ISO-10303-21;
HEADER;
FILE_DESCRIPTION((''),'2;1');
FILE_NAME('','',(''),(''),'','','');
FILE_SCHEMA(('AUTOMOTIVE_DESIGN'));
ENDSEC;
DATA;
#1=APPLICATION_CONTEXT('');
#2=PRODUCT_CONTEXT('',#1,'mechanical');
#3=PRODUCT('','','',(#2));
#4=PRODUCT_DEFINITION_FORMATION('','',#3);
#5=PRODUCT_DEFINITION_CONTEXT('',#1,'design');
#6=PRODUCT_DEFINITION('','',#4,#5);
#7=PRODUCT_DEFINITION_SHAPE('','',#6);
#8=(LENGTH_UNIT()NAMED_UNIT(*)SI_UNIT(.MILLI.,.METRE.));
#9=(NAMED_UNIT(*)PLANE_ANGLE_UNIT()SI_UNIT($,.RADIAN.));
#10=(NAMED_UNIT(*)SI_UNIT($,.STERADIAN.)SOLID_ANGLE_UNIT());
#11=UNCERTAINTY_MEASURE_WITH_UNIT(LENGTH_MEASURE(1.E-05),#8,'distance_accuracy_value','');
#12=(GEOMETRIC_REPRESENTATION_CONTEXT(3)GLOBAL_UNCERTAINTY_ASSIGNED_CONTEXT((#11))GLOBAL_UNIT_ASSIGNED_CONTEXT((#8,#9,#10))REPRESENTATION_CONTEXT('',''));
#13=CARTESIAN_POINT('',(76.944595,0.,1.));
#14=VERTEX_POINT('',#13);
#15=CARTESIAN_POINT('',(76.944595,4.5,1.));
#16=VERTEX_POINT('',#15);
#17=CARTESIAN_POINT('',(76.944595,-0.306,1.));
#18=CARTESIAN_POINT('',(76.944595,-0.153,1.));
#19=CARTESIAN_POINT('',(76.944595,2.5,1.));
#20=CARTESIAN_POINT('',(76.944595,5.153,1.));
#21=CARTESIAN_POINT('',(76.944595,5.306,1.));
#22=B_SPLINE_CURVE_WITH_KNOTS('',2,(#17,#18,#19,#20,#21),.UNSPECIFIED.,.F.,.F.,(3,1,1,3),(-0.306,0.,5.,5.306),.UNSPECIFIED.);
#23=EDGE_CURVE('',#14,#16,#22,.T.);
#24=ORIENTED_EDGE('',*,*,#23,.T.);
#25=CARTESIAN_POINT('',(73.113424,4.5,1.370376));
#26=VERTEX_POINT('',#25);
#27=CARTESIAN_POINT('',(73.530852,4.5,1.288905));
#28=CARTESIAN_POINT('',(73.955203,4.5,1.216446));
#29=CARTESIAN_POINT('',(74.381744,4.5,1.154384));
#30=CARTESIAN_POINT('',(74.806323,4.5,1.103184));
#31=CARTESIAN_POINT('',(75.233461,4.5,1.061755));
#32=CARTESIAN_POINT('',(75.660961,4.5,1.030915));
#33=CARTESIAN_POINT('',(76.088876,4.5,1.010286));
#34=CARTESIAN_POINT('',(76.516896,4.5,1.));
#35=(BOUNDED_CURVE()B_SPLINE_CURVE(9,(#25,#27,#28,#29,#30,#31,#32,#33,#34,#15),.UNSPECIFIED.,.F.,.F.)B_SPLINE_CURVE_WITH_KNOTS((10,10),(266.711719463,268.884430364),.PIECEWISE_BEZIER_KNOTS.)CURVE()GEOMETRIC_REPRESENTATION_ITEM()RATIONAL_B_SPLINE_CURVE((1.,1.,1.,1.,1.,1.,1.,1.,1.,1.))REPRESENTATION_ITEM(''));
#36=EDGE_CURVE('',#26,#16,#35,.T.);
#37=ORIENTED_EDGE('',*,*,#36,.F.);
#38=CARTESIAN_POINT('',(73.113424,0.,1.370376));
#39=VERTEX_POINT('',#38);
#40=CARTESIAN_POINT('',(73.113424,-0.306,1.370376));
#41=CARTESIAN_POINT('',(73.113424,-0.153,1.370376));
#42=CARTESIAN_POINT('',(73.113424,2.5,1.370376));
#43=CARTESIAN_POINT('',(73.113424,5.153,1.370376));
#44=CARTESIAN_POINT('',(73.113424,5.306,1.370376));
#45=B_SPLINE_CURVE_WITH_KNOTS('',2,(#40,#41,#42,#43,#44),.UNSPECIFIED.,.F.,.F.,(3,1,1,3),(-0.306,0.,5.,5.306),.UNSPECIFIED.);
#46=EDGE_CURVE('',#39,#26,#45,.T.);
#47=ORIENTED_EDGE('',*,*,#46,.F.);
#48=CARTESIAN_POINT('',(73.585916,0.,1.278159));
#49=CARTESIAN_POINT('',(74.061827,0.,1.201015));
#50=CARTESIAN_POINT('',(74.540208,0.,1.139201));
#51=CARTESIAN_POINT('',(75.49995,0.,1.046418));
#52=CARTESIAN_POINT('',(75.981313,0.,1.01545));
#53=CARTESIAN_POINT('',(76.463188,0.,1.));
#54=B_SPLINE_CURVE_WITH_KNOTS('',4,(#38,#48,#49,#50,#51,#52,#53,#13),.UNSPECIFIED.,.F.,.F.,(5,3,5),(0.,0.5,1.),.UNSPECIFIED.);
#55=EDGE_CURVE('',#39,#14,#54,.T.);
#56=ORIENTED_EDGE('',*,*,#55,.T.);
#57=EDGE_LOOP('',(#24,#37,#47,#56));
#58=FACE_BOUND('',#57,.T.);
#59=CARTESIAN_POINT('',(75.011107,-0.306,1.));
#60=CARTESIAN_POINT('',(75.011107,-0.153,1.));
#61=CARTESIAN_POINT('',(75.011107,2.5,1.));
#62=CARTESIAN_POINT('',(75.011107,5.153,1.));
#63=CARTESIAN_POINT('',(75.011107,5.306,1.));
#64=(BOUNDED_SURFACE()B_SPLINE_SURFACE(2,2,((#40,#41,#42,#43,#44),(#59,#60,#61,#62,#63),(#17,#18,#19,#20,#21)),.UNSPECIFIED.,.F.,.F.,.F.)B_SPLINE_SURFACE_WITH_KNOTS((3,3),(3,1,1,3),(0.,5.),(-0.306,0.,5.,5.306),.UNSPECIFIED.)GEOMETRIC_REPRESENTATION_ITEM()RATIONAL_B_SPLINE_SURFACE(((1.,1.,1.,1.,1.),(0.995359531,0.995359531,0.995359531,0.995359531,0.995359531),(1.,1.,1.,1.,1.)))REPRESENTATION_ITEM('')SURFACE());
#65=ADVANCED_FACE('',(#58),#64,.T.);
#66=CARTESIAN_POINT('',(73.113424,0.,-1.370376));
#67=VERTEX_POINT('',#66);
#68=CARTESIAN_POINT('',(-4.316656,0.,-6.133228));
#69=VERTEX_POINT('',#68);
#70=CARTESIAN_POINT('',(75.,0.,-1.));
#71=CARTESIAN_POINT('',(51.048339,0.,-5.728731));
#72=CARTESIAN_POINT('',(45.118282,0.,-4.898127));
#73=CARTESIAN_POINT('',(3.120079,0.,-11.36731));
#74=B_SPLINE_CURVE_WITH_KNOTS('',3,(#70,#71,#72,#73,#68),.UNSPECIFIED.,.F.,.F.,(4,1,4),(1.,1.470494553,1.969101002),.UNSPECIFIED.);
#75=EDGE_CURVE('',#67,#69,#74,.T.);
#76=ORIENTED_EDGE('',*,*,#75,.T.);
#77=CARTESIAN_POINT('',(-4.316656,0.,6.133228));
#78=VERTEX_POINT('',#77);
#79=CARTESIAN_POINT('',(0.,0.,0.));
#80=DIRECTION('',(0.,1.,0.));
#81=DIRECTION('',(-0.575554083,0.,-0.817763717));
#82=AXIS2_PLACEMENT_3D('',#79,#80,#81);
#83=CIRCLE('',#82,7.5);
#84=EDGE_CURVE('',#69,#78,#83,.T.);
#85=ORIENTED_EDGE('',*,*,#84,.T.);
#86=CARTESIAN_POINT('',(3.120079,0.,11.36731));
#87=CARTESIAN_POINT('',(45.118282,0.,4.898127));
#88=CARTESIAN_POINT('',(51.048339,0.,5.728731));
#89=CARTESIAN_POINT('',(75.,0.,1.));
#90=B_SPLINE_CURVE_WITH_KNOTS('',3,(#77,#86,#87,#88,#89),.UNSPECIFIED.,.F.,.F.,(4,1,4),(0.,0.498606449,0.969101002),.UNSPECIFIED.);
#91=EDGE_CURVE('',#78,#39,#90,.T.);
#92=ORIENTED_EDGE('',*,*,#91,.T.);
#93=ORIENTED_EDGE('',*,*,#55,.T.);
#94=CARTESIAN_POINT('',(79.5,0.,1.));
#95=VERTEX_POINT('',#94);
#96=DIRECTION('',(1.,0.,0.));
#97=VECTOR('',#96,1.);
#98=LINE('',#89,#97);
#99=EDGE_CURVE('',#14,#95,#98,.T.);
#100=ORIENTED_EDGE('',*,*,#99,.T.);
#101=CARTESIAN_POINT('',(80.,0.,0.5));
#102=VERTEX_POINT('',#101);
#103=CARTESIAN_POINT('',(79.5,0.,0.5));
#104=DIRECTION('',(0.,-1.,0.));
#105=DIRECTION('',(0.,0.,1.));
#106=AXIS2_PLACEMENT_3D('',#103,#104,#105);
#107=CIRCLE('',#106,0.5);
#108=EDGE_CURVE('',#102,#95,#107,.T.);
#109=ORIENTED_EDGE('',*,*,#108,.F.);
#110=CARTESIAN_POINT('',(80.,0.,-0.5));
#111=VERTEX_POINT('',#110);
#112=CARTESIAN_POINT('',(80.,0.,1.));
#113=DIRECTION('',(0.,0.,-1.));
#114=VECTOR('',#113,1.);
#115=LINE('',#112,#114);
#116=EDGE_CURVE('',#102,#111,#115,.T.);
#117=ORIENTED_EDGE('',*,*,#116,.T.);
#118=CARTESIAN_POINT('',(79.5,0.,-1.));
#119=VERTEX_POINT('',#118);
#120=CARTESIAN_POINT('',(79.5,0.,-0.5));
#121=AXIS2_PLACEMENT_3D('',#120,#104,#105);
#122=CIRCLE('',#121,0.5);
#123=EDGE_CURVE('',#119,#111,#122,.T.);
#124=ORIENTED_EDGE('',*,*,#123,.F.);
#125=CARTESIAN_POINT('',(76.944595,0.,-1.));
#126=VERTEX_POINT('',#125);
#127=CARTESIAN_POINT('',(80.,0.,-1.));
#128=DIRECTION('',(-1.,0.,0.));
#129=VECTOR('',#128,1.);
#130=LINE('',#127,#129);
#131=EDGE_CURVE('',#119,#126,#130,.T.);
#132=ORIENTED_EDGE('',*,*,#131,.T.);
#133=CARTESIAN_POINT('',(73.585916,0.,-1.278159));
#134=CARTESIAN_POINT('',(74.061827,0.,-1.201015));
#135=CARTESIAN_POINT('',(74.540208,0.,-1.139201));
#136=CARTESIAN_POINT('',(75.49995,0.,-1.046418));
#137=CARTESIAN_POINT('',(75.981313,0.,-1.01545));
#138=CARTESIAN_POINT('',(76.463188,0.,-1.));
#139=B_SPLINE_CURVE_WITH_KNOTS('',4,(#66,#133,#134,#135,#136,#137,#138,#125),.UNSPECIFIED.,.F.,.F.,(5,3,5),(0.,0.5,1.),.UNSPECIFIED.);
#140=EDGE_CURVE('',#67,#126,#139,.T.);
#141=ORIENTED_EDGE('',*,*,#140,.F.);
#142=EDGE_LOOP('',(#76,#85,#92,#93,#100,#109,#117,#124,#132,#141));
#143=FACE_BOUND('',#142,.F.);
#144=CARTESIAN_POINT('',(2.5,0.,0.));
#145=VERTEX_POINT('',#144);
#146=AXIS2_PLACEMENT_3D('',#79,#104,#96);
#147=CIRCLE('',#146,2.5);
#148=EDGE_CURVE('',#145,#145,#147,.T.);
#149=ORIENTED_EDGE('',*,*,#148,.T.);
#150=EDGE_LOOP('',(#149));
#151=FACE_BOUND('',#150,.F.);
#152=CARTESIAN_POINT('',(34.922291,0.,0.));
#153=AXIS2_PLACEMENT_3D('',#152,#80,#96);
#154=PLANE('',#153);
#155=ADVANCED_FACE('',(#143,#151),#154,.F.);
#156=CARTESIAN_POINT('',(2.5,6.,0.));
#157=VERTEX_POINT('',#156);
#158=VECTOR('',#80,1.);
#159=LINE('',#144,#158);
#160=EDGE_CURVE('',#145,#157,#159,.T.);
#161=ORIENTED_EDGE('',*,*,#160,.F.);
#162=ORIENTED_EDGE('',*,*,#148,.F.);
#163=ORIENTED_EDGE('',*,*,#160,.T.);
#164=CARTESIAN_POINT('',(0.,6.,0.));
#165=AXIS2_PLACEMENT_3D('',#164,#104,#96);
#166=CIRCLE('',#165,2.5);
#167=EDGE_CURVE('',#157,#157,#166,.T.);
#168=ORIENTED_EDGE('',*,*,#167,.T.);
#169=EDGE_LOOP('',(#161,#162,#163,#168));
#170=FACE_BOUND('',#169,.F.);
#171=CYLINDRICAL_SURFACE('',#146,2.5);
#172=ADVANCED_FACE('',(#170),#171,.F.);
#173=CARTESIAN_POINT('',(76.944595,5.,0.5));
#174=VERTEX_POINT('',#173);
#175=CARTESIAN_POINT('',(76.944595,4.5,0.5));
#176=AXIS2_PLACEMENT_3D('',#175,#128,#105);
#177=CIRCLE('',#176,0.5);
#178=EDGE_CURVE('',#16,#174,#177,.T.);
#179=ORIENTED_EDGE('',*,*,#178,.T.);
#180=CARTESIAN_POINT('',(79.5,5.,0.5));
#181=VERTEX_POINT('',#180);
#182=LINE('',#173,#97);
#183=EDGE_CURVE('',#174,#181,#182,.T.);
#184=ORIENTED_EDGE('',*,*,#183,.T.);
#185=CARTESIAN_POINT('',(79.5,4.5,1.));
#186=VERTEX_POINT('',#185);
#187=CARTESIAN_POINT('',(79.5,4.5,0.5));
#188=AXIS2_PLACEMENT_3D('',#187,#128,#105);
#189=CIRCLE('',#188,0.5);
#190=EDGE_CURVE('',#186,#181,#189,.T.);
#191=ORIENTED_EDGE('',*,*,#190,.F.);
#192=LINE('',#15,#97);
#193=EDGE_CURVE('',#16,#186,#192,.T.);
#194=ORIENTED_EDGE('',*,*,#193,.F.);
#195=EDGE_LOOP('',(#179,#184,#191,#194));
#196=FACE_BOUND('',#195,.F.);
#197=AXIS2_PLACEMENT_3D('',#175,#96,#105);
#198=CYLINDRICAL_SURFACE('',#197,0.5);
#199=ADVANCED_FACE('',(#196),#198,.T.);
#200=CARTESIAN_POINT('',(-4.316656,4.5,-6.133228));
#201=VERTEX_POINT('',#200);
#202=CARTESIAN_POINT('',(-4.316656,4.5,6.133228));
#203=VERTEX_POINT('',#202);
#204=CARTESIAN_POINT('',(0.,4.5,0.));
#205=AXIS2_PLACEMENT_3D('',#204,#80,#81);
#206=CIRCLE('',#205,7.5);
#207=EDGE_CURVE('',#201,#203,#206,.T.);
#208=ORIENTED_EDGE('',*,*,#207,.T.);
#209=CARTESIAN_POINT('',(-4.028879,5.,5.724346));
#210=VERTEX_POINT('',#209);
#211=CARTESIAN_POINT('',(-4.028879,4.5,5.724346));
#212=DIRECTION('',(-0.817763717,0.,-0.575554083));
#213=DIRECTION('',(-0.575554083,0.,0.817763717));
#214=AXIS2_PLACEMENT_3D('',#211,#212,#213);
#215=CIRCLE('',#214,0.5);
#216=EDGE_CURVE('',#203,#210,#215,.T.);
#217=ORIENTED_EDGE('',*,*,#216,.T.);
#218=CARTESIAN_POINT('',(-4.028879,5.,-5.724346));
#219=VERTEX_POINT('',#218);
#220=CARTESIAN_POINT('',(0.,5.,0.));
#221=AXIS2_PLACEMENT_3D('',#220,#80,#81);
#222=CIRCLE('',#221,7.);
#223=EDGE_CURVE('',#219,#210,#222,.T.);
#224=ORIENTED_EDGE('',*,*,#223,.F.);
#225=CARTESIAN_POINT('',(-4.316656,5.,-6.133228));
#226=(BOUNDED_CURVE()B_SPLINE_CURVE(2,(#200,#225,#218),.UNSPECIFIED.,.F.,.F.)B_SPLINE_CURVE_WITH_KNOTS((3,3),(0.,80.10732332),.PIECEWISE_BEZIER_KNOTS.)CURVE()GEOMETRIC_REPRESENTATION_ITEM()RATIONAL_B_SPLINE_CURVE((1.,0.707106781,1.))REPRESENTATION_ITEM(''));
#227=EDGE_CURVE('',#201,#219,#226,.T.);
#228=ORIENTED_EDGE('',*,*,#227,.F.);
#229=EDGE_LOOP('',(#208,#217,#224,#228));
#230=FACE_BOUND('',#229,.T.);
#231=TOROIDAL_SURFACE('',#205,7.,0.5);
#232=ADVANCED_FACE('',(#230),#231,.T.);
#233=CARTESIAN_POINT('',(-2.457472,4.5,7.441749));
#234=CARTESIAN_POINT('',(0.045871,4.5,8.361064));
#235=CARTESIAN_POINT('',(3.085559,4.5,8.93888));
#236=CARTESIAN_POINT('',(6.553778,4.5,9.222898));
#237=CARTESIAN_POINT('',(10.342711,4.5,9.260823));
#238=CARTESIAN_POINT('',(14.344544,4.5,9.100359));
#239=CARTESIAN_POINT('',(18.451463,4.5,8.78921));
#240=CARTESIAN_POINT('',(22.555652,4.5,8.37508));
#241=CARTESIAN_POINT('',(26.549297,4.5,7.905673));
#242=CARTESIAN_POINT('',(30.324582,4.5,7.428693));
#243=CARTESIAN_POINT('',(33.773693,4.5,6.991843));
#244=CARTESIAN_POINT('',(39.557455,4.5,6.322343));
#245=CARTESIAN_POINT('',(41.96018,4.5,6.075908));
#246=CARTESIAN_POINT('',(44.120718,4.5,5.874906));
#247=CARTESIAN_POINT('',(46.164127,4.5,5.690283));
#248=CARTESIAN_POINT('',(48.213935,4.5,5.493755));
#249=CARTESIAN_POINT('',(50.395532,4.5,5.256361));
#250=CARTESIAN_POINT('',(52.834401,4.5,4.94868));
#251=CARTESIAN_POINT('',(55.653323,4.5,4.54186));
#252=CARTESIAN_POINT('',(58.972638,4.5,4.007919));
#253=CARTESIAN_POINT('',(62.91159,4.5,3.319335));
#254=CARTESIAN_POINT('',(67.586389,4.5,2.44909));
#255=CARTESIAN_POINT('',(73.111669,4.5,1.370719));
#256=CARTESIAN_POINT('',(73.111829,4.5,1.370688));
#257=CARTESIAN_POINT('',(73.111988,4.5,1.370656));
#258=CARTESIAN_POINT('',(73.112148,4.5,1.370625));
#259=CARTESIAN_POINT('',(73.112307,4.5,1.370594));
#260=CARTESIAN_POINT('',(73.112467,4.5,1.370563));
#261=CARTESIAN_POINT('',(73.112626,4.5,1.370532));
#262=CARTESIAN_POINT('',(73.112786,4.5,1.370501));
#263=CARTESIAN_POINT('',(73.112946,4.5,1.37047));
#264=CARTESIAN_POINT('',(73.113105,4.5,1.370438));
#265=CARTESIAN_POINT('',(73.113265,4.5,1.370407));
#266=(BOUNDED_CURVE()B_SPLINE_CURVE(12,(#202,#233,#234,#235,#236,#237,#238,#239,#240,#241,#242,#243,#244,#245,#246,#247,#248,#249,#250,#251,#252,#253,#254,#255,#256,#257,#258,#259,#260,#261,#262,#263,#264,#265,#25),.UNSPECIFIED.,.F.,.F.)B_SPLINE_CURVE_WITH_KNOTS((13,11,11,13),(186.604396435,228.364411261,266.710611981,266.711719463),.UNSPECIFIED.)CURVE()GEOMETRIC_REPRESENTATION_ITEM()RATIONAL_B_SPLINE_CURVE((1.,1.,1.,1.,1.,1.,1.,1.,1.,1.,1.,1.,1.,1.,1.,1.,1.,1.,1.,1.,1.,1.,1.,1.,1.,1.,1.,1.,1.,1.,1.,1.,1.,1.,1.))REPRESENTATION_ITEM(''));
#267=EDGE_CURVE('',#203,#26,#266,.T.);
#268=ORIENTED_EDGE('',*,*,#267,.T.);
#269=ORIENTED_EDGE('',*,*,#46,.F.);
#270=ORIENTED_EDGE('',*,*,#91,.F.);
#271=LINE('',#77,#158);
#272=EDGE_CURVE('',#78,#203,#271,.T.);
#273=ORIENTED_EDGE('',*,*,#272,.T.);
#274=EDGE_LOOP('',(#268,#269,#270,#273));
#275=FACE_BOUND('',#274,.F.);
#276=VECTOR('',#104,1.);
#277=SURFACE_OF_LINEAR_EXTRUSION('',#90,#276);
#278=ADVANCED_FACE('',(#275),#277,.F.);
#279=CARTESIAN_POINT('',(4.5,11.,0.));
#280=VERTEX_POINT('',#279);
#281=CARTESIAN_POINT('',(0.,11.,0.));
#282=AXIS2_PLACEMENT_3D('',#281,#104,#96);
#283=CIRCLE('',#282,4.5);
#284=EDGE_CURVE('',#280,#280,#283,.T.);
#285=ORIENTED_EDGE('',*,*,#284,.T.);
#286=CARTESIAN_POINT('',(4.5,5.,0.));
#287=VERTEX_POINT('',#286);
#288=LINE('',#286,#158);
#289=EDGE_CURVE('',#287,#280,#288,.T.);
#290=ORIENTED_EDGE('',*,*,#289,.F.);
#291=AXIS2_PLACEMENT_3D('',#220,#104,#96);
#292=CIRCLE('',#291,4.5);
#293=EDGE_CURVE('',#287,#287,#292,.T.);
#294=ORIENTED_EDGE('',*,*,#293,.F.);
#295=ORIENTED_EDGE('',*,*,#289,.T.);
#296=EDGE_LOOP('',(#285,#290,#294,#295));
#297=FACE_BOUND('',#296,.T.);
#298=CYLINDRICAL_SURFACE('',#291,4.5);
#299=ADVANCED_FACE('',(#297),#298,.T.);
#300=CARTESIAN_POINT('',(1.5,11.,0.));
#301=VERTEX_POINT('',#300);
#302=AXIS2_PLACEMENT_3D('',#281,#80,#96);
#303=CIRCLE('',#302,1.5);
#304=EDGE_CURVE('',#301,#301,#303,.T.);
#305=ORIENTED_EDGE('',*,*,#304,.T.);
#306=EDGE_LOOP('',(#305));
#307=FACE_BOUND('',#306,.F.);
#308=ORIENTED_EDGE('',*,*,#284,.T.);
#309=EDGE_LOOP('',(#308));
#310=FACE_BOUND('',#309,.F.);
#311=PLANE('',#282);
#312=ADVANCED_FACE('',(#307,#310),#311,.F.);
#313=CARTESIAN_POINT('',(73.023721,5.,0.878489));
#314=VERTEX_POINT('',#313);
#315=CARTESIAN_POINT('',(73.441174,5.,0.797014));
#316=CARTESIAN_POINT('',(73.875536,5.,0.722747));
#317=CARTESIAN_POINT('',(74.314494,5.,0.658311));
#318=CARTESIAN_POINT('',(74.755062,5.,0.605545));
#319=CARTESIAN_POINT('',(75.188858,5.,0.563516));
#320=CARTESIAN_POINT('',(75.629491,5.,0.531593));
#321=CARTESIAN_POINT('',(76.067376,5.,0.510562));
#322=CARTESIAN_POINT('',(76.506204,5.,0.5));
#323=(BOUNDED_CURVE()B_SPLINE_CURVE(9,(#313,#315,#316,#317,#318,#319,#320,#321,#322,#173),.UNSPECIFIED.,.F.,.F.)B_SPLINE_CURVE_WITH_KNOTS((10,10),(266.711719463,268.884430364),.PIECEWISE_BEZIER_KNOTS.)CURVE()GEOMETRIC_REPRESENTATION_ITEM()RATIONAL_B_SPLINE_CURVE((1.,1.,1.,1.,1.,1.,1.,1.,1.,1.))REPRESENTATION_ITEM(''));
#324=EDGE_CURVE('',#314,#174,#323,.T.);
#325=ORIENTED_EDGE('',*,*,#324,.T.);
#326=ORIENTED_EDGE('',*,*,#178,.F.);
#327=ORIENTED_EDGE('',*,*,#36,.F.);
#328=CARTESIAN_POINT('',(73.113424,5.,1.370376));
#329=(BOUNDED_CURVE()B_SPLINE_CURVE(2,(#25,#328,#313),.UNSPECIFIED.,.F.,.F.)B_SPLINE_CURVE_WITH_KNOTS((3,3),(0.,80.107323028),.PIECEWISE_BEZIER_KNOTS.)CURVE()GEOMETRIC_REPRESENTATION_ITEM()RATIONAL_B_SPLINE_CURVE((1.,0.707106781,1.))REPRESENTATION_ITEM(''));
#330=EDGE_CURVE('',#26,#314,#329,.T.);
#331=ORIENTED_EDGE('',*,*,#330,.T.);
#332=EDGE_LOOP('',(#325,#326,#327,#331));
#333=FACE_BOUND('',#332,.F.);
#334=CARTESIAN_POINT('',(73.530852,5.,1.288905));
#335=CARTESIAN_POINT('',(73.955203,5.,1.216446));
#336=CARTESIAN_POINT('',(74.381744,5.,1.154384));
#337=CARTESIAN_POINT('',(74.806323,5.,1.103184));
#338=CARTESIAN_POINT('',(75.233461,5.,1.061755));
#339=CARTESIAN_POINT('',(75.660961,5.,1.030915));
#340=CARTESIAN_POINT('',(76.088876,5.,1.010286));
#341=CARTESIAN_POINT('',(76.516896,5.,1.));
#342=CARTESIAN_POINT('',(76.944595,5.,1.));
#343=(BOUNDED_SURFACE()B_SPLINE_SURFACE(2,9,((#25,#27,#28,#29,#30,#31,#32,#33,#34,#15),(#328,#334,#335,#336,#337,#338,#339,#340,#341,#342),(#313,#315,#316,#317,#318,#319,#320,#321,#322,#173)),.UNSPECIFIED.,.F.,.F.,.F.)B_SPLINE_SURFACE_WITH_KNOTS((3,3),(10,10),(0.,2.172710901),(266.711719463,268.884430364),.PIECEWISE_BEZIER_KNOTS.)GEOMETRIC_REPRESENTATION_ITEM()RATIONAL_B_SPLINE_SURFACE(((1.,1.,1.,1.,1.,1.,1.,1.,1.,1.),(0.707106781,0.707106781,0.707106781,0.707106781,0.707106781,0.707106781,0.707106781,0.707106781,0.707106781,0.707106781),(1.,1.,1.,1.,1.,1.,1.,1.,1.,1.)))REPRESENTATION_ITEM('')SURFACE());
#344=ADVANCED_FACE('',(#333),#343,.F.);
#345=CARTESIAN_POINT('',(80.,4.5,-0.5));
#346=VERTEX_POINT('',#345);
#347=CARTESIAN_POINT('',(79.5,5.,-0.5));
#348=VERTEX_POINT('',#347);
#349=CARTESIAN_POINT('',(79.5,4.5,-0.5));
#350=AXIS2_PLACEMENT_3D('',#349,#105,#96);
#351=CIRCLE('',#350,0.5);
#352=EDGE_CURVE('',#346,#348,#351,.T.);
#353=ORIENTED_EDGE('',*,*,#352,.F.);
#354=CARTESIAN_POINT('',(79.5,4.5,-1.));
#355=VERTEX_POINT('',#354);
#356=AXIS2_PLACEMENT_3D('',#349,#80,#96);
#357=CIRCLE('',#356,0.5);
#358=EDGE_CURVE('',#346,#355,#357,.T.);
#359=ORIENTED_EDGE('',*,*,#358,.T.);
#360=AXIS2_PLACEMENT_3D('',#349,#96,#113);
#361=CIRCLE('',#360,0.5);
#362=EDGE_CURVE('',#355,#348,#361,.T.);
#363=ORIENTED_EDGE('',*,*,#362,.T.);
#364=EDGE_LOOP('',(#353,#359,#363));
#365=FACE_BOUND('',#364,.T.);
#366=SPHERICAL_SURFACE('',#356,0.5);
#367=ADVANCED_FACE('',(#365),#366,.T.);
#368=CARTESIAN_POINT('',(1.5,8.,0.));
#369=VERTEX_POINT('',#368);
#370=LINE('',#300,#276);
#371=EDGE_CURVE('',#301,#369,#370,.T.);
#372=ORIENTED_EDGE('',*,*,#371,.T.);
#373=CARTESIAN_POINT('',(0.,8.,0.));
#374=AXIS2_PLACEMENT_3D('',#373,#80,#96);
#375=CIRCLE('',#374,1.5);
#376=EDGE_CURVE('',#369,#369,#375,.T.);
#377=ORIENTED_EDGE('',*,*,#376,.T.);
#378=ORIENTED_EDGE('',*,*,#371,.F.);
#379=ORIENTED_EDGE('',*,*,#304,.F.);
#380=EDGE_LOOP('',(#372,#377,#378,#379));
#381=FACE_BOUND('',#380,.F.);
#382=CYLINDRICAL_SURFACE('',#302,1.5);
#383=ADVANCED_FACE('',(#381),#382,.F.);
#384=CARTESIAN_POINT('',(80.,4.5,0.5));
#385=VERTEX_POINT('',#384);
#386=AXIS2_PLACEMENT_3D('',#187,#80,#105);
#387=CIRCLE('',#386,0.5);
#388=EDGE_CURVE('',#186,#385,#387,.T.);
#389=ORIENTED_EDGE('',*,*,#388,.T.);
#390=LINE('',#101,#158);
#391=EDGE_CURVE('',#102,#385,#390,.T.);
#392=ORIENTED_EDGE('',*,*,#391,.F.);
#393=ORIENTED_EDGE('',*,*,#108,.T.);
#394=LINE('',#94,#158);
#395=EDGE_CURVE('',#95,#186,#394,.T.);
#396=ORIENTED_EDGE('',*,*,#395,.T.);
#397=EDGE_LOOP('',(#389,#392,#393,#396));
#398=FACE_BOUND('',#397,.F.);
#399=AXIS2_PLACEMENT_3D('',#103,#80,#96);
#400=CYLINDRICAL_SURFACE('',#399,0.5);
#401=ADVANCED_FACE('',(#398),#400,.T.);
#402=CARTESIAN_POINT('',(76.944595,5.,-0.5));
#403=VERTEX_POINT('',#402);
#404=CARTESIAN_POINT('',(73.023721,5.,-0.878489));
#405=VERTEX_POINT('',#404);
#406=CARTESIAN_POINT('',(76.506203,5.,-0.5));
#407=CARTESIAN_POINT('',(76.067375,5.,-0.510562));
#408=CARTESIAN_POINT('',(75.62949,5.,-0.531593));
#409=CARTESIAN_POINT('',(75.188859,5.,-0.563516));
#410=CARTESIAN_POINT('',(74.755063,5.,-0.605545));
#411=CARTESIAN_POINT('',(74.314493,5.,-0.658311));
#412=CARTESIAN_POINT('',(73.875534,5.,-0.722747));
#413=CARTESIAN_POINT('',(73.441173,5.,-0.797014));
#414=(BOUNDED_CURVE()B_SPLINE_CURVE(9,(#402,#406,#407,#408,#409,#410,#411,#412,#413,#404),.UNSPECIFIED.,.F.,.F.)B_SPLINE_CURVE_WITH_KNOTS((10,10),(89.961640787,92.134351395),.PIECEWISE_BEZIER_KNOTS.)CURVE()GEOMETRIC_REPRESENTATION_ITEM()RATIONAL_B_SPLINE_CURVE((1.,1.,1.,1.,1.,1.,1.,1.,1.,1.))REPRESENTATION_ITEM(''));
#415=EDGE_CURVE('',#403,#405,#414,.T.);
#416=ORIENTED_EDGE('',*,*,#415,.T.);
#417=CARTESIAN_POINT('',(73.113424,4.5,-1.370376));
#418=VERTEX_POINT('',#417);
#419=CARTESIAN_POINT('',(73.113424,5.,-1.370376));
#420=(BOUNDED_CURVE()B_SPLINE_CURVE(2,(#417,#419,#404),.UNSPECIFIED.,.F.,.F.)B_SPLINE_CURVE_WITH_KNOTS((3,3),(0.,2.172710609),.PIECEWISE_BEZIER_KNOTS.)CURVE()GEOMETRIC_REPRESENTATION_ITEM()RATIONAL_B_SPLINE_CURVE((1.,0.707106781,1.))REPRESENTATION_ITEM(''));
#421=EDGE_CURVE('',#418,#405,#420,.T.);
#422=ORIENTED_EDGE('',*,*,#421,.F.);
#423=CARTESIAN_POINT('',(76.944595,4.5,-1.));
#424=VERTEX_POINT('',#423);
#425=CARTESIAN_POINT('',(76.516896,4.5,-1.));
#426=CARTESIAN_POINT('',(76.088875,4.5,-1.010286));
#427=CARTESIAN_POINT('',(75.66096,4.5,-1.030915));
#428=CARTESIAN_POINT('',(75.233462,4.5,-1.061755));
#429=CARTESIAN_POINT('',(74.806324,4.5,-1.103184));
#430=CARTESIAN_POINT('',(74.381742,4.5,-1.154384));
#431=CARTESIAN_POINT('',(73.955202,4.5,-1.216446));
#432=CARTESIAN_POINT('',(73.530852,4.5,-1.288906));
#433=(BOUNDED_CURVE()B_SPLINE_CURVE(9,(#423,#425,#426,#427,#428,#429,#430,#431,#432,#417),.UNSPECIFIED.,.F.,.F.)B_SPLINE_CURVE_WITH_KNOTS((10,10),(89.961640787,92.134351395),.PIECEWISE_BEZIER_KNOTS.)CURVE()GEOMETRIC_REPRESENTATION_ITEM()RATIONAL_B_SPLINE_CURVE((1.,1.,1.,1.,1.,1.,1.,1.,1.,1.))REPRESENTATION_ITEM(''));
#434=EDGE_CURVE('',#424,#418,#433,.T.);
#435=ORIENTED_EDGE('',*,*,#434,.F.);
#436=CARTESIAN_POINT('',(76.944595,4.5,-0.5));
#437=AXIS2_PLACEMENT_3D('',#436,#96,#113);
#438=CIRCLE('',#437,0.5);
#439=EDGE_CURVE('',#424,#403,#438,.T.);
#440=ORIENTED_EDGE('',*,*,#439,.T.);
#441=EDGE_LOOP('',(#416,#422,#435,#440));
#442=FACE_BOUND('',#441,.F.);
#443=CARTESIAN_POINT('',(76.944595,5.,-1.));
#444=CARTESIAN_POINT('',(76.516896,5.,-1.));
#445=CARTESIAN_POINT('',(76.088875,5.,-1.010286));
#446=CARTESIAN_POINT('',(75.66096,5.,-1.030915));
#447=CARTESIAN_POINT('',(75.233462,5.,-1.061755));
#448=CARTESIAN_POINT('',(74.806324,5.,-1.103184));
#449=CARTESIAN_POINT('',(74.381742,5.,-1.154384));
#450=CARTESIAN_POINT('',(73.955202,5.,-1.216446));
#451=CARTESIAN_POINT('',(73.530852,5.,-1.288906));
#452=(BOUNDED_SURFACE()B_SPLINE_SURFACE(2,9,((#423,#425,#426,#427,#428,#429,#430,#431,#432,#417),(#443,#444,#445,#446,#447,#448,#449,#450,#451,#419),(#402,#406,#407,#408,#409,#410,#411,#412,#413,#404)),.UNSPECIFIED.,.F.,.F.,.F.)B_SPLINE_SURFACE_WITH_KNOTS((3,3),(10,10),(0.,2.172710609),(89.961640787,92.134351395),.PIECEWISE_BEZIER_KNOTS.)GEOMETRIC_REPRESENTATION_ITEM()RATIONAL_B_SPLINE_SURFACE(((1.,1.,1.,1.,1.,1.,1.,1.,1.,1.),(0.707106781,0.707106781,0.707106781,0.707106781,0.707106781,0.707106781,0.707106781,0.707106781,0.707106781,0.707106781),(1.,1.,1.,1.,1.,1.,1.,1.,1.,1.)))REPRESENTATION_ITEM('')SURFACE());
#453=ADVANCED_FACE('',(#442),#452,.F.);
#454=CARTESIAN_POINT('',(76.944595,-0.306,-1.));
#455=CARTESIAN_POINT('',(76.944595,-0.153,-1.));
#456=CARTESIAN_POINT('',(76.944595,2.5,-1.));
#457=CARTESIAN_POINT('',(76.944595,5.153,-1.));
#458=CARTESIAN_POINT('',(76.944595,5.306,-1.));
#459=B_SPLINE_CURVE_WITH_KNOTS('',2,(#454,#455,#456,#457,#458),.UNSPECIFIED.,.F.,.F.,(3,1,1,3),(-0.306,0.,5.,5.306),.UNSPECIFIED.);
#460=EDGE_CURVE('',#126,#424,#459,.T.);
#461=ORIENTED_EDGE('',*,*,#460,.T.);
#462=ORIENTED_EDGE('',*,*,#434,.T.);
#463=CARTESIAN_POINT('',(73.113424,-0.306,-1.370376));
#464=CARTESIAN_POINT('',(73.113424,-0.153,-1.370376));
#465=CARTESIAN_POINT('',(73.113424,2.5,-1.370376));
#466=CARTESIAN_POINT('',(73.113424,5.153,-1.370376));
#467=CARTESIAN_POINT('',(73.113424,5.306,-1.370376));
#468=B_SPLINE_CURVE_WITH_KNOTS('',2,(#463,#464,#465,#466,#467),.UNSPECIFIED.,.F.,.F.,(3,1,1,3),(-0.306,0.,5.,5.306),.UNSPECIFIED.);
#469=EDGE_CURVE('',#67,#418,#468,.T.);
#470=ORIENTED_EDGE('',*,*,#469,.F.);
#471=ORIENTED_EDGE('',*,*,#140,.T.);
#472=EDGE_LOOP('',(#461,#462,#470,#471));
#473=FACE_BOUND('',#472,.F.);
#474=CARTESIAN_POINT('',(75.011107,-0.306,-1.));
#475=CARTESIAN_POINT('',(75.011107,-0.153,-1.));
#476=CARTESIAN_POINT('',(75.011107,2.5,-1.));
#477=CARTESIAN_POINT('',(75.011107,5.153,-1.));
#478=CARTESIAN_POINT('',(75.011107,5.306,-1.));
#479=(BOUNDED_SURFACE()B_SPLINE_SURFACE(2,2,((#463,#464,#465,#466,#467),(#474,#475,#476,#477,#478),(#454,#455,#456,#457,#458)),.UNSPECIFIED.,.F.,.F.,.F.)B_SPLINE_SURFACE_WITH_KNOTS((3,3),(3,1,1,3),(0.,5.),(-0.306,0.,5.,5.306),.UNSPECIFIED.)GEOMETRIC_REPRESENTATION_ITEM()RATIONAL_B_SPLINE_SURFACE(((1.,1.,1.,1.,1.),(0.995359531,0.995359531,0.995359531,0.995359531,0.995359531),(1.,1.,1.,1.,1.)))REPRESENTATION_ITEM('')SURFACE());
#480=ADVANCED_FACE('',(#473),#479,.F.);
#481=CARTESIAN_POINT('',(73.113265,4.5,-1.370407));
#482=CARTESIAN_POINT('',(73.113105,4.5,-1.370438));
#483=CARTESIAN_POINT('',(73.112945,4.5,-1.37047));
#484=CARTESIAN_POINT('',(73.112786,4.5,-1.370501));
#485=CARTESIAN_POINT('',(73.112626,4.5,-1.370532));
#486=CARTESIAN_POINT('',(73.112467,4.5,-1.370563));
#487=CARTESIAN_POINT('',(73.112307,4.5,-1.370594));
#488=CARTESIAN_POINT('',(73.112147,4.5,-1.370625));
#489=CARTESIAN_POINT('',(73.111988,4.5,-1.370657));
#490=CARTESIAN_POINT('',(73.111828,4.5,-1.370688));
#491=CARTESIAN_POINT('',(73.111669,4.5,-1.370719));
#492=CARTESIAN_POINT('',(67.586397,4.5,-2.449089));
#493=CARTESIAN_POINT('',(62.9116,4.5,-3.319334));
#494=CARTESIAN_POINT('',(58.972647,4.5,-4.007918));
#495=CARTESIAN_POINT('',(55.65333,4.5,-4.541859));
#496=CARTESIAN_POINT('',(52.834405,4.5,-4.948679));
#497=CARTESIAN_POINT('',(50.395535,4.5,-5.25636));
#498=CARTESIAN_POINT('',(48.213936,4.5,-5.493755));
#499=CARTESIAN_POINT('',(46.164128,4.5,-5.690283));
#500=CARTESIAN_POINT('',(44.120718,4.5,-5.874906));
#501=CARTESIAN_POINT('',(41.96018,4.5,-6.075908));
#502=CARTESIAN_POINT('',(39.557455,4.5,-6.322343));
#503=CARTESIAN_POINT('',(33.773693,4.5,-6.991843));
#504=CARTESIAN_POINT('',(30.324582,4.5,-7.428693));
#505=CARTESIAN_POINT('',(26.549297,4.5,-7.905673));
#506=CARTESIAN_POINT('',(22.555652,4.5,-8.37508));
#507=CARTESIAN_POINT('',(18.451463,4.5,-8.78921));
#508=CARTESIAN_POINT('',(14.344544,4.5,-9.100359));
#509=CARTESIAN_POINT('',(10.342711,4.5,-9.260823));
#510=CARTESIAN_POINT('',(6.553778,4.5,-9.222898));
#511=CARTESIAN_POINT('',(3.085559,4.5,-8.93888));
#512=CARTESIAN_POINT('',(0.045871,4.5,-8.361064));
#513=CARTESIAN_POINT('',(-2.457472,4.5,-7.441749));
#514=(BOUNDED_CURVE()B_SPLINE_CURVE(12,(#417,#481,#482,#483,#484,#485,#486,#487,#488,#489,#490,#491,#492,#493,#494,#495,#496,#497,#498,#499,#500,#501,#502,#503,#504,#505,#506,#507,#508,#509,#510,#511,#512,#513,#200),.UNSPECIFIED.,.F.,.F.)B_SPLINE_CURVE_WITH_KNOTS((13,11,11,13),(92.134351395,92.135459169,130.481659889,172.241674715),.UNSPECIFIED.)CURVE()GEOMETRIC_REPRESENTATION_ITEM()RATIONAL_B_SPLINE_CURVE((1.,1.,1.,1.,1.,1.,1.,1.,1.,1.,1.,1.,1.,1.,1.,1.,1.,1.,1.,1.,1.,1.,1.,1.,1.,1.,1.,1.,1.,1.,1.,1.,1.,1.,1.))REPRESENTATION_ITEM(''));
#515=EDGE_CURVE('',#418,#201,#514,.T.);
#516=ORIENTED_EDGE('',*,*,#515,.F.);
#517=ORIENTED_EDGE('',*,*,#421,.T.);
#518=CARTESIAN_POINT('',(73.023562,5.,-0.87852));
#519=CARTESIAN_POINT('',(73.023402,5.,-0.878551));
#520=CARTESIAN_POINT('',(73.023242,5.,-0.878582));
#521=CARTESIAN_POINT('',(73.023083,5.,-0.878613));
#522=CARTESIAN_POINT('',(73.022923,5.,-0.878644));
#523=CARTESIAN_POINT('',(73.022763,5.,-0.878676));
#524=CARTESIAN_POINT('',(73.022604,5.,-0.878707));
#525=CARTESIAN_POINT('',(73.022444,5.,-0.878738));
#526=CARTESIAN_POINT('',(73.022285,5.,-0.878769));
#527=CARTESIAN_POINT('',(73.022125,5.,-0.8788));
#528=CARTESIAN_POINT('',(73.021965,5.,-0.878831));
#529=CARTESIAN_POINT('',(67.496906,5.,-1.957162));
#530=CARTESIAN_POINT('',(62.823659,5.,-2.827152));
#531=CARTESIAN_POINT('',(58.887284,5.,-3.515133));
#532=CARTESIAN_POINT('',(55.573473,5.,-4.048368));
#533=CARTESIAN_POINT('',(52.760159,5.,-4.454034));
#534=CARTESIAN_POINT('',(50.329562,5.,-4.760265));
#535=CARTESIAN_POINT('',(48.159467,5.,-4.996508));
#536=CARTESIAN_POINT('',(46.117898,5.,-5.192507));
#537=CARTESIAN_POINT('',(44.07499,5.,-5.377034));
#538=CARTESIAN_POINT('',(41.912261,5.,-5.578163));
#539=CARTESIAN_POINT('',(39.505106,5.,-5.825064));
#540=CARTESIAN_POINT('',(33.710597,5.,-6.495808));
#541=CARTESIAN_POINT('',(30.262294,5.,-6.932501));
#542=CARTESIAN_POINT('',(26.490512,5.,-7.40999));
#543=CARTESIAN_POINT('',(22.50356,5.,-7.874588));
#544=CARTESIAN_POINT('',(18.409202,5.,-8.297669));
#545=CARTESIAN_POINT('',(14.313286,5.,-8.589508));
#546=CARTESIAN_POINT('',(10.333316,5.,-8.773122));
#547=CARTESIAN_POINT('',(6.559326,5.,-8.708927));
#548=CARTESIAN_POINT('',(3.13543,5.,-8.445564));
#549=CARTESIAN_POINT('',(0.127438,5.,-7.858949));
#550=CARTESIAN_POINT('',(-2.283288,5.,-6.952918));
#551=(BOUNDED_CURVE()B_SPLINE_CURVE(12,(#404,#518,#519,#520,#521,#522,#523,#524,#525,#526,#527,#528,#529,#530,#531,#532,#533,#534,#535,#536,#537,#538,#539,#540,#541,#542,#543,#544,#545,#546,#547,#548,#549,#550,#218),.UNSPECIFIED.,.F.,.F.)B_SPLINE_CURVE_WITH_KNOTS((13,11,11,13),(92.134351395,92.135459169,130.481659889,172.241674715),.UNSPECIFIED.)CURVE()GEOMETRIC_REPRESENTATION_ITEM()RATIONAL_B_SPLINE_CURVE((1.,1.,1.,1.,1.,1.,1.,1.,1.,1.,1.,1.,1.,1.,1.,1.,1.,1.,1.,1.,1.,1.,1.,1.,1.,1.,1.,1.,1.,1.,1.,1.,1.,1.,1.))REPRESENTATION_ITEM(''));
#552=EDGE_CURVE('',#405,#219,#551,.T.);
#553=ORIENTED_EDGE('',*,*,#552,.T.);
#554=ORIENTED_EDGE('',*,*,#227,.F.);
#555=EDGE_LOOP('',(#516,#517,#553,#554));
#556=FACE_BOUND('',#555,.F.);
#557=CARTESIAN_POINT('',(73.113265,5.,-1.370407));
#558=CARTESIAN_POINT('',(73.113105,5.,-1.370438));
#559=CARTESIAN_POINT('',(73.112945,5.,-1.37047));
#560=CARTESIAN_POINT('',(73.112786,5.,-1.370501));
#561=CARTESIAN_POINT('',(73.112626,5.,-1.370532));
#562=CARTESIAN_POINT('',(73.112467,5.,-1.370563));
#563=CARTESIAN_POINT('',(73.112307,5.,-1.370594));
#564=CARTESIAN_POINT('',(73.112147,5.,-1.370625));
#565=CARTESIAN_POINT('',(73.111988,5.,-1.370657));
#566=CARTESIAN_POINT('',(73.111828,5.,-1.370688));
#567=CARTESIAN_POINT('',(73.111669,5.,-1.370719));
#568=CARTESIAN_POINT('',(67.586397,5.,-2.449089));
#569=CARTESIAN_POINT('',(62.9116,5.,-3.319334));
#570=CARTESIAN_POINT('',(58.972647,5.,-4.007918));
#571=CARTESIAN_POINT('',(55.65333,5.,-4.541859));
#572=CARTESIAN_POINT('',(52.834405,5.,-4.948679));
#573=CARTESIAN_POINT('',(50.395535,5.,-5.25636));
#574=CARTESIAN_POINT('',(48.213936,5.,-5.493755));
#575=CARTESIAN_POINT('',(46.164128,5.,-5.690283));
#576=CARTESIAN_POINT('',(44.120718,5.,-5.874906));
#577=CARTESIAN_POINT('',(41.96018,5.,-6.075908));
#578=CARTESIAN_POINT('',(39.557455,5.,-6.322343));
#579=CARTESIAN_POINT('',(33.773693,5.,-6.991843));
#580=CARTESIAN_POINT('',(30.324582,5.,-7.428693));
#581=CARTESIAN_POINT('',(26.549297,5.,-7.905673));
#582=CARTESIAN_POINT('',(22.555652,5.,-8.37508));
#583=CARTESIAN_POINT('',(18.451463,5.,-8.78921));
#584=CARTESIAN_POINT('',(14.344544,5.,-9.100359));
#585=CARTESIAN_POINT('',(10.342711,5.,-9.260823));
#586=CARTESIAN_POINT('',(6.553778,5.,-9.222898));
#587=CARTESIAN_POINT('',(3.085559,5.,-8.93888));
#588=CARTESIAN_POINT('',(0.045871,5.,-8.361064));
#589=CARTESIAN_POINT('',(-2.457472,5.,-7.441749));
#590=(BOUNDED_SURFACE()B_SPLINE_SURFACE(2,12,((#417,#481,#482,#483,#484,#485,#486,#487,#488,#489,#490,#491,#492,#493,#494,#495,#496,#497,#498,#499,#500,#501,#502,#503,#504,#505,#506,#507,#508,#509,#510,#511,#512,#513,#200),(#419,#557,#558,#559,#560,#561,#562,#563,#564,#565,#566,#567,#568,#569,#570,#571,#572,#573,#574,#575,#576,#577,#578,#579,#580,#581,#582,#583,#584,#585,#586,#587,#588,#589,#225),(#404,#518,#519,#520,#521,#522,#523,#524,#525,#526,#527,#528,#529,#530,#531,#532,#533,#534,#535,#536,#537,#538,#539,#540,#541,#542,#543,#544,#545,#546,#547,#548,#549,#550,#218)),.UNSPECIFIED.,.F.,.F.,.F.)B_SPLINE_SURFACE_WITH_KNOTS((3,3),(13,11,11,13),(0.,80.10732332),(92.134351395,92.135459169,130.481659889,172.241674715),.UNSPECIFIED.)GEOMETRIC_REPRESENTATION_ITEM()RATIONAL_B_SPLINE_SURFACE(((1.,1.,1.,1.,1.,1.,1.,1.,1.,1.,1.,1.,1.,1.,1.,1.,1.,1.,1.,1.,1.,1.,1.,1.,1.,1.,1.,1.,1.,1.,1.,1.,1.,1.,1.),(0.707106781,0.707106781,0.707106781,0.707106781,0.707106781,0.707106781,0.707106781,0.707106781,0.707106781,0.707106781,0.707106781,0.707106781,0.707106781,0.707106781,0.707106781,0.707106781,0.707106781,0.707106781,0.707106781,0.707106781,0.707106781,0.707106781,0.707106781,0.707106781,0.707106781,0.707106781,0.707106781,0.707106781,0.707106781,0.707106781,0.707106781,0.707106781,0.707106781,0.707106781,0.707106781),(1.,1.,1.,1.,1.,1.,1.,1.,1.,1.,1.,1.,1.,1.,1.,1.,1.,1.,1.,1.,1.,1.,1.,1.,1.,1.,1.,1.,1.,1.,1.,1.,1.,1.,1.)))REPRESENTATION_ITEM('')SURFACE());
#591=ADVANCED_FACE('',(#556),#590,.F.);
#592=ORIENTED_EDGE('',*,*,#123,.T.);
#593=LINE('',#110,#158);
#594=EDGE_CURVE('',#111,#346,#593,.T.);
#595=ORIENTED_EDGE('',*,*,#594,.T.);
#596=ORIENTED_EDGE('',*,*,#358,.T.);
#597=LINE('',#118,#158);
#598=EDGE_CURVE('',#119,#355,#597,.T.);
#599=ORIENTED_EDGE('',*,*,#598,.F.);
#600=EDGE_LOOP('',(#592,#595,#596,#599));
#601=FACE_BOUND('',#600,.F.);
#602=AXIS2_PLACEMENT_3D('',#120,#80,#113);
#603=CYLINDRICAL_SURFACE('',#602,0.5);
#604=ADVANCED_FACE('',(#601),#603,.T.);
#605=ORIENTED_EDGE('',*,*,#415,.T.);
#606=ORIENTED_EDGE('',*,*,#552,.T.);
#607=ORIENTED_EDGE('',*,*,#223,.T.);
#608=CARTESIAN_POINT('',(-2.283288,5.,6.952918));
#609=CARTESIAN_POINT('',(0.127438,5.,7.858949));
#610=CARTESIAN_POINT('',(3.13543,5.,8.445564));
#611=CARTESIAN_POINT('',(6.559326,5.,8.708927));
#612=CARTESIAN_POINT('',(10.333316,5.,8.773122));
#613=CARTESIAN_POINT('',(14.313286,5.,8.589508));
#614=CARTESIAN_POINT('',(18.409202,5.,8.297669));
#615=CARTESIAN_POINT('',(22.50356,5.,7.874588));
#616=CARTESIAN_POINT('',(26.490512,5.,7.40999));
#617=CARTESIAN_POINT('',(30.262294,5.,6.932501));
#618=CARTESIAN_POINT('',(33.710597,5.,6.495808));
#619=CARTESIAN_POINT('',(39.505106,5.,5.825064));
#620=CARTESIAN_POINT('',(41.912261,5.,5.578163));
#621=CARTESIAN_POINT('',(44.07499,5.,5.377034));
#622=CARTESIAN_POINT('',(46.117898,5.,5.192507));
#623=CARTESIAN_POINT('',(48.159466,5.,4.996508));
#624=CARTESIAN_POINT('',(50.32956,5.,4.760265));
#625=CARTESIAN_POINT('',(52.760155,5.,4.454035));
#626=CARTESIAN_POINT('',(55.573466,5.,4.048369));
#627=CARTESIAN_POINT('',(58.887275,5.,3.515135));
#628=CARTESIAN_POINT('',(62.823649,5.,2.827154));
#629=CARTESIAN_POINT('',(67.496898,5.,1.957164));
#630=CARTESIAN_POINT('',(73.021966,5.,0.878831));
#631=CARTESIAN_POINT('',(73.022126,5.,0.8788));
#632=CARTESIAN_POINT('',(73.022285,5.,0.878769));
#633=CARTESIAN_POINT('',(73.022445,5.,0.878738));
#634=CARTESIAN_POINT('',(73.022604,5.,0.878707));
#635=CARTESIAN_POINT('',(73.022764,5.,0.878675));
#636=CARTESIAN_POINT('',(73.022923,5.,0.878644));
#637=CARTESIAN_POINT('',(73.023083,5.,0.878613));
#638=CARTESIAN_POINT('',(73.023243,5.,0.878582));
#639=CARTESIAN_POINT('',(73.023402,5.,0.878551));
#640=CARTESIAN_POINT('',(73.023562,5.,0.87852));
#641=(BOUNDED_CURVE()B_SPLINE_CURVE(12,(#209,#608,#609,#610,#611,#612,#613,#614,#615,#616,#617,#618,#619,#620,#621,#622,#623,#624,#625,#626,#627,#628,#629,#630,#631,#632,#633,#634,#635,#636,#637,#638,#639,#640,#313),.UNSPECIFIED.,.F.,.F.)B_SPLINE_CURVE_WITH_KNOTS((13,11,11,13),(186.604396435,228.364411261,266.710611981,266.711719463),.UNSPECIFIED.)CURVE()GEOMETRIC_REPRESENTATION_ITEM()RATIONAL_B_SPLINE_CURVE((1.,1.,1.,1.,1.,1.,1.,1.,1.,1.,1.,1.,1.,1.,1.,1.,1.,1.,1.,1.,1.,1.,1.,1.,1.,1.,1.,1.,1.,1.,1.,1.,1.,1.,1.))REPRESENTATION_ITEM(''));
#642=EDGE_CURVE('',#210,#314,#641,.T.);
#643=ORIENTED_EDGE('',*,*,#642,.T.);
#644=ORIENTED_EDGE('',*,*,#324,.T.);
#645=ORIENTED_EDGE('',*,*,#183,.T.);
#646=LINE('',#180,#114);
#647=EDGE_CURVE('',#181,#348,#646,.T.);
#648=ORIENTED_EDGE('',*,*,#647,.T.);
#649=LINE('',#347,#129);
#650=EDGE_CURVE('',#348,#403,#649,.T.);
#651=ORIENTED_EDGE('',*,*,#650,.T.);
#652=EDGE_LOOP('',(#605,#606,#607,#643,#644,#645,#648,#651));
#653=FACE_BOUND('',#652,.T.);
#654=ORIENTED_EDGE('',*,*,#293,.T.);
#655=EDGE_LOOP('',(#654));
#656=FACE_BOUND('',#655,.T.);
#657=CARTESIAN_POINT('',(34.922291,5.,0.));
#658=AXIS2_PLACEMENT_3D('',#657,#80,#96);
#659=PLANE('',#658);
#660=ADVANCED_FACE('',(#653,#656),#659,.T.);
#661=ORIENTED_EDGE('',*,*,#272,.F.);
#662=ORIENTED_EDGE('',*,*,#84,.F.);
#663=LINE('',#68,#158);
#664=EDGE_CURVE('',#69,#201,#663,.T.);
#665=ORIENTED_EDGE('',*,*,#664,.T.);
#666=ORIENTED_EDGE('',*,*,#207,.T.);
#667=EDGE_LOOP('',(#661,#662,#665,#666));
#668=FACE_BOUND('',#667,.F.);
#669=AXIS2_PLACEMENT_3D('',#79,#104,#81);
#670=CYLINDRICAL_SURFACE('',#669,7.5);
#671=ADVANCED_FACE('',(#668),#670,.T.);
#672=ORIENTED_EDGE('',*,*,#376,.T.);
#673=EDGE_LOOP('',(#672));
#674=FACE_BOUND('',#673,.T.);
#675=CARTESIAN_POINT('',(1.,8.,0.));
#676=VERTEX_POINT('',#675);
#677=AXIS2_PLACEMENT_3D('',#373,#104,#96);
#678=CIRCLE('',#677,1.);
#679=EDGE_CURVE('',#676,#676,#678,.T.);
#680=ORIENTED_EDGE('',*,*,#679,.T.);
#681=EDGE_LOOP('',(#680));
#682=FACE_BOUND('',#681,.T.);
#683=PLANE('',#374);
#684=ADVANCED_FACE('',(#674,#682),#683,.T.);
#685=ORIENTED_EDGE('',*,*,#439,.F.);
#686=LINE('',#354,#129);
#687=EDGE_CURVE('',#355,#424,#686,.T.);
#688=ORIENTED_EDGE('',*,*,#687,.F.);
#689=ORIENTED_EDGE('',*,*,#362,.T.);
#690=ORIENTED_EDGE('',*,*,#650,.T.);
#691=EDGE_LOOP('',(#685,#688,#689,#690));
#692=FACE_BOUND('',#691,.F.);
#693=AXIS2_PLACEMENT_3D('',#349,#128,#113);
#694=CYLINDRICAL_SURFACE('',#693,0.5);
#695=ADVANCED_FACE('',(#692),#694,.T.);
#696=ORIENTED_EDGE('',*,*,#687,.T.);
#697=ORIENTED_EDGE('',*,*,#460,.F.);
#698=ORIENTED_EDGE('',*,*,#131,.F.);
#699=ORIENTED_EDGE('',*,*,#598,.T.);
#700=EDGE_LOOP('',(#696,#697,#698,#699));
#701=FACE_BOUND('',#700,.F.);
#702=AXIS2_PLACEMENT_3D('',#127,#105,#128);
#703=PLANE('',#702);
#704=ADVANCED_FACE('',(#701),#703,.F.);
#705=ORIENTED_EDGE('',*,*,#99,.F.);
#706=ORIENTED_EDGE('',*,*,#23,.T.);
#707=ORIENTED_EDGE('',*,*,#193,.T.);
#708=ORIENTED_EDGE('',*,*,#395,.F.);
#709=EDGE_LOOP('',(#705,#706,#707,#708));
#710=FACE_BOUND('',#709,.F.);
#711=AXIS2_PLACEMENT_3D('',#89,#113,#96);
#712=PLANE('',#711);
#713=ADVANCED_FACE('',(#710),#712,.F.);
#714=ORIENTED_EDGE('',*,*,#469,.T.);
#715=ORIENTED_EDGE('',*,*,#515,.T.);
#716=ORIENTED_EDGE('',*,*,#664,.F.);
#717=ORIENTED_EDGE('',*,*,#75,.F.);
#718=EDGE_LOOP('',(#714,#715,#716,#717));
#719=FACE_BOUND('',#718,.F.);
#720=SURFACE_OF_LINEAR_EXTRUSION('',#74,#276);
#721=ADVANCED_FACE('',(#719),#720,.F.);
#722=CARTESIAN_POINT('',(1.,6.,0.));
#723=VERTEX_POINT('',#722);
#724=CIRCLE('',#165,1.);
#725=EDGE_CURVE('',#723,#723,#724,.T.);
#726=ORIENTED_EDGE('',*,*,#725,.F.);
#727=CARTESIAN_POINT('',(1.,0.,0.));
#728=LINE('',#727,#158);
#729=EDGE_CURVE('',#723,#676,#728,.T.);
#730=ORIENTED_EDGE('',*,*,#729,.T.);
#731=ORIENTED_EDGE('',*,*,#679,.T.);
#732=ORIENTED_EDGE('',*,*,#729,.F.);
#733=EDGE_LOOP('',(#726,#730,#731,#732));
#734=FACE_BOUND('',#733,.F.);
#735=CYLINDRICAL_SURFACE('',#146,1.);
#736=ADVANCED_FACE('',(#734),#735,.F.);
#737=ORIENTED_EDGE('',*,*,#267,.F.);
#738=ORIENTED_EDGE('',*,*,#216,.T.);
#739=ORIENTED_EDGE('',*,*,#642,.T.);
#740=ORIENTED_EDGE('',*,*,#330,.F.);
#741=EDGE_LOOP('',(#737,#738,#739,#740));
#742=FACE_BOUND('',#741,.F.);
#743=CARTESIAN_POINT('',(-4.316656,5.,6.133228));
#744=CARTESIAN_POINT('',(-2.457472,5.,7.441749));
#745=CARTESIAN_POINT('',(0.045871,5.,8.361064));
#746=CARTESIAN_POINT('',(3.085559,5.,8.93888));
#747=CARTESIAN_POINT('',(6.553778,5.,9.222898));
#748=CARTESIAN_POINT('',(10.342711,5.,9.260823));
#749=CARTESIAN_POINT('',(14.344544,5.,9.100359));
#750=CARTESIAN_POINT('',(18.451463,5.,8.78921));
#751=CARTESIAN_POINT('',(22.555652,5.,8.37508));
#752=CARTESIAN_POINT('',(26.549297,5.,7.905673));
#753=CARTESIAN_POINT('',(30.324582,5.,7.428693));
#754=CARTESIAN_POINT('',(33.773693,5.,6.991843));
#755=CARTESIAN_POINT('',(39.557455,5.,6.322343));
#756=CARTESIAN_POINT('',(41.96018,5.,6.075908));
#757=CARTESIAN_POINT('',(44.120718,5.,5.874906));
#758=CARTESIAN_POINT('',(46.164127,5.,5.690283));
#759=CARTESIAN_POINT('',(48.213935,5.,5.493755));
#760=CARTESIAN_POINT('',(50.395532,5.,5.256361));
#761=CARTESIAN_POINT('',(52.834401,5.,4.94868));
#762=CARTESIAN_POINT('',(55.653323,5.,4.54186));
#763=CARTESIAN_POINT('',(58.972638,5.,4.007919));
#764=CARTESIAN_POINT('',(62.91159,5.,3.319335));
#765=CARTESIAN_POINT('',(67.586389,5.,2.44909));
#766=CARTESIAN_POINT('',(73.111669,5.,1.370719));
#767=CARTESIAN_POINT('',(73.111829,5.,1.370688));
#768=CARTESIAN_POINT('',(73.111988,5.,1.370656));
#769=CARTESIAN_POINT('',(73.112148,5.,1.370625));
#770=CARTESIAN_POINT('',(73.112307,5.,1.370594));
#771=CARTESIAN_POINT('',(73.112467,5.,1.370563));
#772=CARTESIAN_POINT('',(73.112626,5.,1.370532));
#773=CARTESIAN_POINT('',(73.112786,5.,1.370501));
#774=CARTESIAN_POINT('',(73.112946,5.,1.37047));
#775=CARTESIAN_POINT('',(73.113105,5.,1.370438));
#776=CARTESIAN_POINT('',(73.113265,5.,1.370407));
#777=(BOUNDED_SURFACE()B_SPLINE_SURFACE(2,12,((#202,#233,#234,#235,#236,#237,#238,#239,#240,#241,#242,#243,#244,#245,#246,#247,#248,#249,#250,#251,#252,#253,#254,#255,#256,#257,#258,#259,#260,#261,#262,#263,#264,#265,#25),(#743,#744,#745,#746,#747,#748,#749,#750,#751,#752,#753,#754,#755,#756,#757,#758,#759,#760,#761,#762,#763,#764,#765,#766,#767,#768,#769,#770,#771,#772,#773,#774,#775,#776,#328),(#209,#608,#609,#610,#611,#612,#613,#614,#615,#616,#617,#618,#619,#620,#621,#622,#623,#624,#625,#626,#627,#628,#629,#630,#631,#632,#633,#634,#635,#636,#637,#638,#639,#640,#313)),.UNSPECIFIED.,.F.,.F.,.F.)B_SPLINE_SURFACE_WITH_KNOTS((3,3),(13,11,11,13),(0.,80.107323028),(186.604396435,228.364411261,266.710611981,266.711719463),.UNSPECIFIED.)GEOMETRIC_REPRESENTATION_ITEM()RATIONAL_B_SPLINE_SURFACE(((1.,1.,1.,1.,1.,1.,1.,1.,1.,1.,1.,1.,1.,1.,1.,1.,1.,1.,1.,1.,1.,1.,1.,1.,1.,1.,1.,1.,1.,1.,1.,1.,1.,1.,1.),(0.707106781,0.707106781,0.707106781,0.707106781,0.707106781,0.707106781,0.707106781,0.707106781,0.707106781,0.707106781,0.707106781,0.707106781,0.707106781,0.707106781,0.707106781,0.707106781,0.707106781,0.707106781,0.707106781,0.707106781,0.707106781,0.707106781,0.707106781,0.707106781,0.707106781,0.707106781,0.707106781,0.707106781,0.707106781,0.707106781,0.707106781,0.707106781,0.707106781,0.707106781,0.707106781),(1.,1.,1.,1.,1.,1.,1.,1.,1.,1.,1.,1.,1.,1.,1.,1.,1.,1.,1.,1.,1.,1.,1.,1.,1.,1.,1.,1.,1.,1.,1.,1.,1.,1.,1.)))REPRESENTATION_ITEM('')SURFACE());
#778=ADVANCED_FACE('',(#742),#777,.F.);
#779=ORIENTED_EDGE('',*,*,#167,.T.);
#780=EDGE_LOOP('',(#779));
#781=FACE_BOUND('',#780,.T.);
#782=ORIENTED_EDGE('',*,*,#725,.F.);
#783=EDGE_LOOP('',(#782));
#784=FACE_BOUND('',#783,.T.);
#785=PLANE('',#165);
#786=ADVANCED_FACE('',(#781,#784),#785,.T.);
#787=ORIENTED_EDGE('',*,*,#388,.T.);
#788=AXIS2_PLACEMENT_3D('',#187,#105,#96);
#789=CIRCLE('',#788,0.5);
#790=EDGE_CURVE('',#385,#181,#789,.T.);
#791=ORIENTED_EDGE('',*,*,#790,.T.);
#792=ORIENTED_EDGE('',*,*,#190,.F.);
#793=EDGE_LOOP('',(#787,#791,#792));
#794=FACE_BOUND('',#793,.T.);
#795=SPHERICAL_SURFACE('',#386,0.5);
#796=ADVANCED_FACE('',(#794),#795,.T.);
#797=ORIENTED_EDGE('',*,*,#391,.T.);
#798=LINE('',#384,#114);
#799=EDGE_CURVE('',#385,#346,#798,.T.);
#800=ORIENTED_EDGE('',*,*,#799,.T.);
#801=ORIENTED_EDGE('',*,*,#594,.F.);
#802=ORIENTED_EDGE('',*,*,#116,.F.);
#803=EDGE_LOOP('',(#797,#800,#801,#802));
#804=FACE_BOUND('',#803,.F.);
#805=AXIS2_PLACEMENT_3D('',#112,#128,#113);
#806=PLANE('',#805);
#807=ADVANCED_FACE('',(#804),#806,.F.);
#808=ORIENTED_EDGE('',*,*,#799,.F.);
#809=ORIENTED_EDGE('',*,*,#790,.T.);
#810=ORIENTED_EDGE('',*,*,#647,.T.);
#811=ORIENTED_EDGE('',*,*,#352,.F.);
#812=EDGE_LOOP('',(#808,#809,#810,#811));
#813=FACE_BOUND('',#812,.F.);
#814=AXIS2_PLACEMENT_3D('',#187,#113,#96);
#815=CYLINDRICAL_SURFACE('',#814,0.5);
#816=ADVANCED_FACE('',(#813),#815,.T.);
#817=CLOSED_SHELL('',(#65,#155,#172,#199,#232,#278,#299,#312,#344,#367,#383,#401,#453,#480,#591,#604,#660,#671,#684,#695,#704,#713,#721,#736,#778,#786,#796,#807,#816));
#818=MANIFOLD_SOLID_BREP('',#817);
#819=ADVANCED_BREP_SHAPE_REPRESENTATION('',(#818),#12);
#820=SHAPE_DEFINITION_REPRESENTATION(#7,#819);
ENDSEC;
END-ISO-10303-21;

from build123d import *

# Parameters (mm, degrees)
BOSS_EXTRUDE2_DEPTH = 5
FILLET1_R           = 20
FILLET2_R           = 0.5
FILLET3_R           = 0.5
BOSS_EXTRUDE3_START = -5
SKETCH3_R           = 4.5
BOSS_EXTRUDE3_DEPTH = 6
SKETCH4_R           = 1.5
CUT_EXTRUDE2_DEPTH  = 3
SKETCH5_R           = 1
CUT_EXTRUDE3_DEPTH  = 12
SKETCH6_R           = 2.5
CUT_EXTRUDE4_DEPTH  = 6


with BuildPart() as part:
    # Sketch1 → Boss-Extrude2 (new body)
    with BuildSketch(Plane(origin=(0, 0, 0), x_dir=(1, 0, 0), z_dir=(0, 1, 0))):
        with BuildLine():
            add(Edge.make_bspline(
                [(75, 1), (51.048339176, 5.728731358), (45.1182825, 4.898127099), (3.12007861, 11.367310368), (-4.316655623, 6.133227881)],
                knots=[1, 1, 1, 1, 1.470494553, 1.969101002, 1.969101002, 1.969101002, 1.969101002], degree=3))
            ThreePointArc((-4.316655623, 6.133227881), (-7.5, 0), (-4.316655623, -6.133227881))
            add(Edge.make_bspline(
                [(-4.316655623, -6.133227881), (3.12007861, -11.367310368), (45.1182825, -4.898127099), (51.048339176, -5.728731358), (75, -1)],
                knots=[0, 0, 0, 0, 0.498606449, 0.969101002, 0.969101002, 0.969101002, 0.969101002], degree=3))
            Line((75, -1), (80, -1))
            Line((80, -1), (80, 1))
            Line((80, 1), (75, 1))
        make_face()
    extrude(amount=BOSS_EXTRUDE2_DEPTH)

    # Fillet1
    fillet1_edges = [part.edges().sort_by_distance(p)[0] for p in [
        (75, 2.5, -1),
        (75, 2.5, 1),
    ]]
    fillet(fillet1_edges, radius=FILLET1_R)

    # Fillet2
    fillet2_edges = [part.edges().sort_by_distance(p)[0] for p in [
        (80, 2.5, -1),
        (80, 2.5, 1),
    ]]
    fillet(fillet2_edges, radius=FILLET2_R)

    # Fillet3
    fillet3_edges = [part.edges().sort_by_distance(p)[0] for p in [
        (34.320045322, 5, 6.936969607),
        (78.222297367, 5, -1),
        (78.222297367, 5, 1),
        (75.020078886, 5, -1.092809371),
        (75.020078886, 5, 1.092809371),
        (80, 5, 0),
        (34.320045325, 5, -6.936969606),
        (79.853553391, 5, -0.853553391),
        (79.853553391, 5, 0.853553391),
        (-7.5, 5, 0),
    ]]
    fillet(fillet3_edges, radius=FILLET3_R)

    # Sketch3 → Boss-Extrude3 (add)
    with BuildSketch(Plane.XZ.offset(BOSS_EXTRUDE3_START)):
        Circle(SKETCH3_R)
    extrude(amount=-BOSS_EXTRUDE3_DEPTH)

    # Sketch4 → Cut-Extrude2 (cut)
    with BuildSketch(Plane(origin=(0, 11, 0), x_dir=(1, 0, 0), z_dir=(0, 1, 0))):
        Circle(SKETCH4_R)
    extrude(amount=-CUT_EXTRUDE2_DEPTH, mode=Mode.SUBTRACT)

    # Sketch5 → Cut-Extrude3 (cut, through all)
    with BuildSketch(Plane.XZ):
        Circle(SKETCH5_R)
    extrude(amount=-CUT_EXTRUDE3_DEPTH, mode=Mode.SUBTRACT)

    # Sketch6 → Cut-Extrude4 (cut)
    with BuildSketch(Plane.XZ):
        Circle(SKETCH6_R)
    extrude(amount=-CUT_EXTRUDE4_DEPTH, mode=Mode.SUBTRACT)


solid = part.part
